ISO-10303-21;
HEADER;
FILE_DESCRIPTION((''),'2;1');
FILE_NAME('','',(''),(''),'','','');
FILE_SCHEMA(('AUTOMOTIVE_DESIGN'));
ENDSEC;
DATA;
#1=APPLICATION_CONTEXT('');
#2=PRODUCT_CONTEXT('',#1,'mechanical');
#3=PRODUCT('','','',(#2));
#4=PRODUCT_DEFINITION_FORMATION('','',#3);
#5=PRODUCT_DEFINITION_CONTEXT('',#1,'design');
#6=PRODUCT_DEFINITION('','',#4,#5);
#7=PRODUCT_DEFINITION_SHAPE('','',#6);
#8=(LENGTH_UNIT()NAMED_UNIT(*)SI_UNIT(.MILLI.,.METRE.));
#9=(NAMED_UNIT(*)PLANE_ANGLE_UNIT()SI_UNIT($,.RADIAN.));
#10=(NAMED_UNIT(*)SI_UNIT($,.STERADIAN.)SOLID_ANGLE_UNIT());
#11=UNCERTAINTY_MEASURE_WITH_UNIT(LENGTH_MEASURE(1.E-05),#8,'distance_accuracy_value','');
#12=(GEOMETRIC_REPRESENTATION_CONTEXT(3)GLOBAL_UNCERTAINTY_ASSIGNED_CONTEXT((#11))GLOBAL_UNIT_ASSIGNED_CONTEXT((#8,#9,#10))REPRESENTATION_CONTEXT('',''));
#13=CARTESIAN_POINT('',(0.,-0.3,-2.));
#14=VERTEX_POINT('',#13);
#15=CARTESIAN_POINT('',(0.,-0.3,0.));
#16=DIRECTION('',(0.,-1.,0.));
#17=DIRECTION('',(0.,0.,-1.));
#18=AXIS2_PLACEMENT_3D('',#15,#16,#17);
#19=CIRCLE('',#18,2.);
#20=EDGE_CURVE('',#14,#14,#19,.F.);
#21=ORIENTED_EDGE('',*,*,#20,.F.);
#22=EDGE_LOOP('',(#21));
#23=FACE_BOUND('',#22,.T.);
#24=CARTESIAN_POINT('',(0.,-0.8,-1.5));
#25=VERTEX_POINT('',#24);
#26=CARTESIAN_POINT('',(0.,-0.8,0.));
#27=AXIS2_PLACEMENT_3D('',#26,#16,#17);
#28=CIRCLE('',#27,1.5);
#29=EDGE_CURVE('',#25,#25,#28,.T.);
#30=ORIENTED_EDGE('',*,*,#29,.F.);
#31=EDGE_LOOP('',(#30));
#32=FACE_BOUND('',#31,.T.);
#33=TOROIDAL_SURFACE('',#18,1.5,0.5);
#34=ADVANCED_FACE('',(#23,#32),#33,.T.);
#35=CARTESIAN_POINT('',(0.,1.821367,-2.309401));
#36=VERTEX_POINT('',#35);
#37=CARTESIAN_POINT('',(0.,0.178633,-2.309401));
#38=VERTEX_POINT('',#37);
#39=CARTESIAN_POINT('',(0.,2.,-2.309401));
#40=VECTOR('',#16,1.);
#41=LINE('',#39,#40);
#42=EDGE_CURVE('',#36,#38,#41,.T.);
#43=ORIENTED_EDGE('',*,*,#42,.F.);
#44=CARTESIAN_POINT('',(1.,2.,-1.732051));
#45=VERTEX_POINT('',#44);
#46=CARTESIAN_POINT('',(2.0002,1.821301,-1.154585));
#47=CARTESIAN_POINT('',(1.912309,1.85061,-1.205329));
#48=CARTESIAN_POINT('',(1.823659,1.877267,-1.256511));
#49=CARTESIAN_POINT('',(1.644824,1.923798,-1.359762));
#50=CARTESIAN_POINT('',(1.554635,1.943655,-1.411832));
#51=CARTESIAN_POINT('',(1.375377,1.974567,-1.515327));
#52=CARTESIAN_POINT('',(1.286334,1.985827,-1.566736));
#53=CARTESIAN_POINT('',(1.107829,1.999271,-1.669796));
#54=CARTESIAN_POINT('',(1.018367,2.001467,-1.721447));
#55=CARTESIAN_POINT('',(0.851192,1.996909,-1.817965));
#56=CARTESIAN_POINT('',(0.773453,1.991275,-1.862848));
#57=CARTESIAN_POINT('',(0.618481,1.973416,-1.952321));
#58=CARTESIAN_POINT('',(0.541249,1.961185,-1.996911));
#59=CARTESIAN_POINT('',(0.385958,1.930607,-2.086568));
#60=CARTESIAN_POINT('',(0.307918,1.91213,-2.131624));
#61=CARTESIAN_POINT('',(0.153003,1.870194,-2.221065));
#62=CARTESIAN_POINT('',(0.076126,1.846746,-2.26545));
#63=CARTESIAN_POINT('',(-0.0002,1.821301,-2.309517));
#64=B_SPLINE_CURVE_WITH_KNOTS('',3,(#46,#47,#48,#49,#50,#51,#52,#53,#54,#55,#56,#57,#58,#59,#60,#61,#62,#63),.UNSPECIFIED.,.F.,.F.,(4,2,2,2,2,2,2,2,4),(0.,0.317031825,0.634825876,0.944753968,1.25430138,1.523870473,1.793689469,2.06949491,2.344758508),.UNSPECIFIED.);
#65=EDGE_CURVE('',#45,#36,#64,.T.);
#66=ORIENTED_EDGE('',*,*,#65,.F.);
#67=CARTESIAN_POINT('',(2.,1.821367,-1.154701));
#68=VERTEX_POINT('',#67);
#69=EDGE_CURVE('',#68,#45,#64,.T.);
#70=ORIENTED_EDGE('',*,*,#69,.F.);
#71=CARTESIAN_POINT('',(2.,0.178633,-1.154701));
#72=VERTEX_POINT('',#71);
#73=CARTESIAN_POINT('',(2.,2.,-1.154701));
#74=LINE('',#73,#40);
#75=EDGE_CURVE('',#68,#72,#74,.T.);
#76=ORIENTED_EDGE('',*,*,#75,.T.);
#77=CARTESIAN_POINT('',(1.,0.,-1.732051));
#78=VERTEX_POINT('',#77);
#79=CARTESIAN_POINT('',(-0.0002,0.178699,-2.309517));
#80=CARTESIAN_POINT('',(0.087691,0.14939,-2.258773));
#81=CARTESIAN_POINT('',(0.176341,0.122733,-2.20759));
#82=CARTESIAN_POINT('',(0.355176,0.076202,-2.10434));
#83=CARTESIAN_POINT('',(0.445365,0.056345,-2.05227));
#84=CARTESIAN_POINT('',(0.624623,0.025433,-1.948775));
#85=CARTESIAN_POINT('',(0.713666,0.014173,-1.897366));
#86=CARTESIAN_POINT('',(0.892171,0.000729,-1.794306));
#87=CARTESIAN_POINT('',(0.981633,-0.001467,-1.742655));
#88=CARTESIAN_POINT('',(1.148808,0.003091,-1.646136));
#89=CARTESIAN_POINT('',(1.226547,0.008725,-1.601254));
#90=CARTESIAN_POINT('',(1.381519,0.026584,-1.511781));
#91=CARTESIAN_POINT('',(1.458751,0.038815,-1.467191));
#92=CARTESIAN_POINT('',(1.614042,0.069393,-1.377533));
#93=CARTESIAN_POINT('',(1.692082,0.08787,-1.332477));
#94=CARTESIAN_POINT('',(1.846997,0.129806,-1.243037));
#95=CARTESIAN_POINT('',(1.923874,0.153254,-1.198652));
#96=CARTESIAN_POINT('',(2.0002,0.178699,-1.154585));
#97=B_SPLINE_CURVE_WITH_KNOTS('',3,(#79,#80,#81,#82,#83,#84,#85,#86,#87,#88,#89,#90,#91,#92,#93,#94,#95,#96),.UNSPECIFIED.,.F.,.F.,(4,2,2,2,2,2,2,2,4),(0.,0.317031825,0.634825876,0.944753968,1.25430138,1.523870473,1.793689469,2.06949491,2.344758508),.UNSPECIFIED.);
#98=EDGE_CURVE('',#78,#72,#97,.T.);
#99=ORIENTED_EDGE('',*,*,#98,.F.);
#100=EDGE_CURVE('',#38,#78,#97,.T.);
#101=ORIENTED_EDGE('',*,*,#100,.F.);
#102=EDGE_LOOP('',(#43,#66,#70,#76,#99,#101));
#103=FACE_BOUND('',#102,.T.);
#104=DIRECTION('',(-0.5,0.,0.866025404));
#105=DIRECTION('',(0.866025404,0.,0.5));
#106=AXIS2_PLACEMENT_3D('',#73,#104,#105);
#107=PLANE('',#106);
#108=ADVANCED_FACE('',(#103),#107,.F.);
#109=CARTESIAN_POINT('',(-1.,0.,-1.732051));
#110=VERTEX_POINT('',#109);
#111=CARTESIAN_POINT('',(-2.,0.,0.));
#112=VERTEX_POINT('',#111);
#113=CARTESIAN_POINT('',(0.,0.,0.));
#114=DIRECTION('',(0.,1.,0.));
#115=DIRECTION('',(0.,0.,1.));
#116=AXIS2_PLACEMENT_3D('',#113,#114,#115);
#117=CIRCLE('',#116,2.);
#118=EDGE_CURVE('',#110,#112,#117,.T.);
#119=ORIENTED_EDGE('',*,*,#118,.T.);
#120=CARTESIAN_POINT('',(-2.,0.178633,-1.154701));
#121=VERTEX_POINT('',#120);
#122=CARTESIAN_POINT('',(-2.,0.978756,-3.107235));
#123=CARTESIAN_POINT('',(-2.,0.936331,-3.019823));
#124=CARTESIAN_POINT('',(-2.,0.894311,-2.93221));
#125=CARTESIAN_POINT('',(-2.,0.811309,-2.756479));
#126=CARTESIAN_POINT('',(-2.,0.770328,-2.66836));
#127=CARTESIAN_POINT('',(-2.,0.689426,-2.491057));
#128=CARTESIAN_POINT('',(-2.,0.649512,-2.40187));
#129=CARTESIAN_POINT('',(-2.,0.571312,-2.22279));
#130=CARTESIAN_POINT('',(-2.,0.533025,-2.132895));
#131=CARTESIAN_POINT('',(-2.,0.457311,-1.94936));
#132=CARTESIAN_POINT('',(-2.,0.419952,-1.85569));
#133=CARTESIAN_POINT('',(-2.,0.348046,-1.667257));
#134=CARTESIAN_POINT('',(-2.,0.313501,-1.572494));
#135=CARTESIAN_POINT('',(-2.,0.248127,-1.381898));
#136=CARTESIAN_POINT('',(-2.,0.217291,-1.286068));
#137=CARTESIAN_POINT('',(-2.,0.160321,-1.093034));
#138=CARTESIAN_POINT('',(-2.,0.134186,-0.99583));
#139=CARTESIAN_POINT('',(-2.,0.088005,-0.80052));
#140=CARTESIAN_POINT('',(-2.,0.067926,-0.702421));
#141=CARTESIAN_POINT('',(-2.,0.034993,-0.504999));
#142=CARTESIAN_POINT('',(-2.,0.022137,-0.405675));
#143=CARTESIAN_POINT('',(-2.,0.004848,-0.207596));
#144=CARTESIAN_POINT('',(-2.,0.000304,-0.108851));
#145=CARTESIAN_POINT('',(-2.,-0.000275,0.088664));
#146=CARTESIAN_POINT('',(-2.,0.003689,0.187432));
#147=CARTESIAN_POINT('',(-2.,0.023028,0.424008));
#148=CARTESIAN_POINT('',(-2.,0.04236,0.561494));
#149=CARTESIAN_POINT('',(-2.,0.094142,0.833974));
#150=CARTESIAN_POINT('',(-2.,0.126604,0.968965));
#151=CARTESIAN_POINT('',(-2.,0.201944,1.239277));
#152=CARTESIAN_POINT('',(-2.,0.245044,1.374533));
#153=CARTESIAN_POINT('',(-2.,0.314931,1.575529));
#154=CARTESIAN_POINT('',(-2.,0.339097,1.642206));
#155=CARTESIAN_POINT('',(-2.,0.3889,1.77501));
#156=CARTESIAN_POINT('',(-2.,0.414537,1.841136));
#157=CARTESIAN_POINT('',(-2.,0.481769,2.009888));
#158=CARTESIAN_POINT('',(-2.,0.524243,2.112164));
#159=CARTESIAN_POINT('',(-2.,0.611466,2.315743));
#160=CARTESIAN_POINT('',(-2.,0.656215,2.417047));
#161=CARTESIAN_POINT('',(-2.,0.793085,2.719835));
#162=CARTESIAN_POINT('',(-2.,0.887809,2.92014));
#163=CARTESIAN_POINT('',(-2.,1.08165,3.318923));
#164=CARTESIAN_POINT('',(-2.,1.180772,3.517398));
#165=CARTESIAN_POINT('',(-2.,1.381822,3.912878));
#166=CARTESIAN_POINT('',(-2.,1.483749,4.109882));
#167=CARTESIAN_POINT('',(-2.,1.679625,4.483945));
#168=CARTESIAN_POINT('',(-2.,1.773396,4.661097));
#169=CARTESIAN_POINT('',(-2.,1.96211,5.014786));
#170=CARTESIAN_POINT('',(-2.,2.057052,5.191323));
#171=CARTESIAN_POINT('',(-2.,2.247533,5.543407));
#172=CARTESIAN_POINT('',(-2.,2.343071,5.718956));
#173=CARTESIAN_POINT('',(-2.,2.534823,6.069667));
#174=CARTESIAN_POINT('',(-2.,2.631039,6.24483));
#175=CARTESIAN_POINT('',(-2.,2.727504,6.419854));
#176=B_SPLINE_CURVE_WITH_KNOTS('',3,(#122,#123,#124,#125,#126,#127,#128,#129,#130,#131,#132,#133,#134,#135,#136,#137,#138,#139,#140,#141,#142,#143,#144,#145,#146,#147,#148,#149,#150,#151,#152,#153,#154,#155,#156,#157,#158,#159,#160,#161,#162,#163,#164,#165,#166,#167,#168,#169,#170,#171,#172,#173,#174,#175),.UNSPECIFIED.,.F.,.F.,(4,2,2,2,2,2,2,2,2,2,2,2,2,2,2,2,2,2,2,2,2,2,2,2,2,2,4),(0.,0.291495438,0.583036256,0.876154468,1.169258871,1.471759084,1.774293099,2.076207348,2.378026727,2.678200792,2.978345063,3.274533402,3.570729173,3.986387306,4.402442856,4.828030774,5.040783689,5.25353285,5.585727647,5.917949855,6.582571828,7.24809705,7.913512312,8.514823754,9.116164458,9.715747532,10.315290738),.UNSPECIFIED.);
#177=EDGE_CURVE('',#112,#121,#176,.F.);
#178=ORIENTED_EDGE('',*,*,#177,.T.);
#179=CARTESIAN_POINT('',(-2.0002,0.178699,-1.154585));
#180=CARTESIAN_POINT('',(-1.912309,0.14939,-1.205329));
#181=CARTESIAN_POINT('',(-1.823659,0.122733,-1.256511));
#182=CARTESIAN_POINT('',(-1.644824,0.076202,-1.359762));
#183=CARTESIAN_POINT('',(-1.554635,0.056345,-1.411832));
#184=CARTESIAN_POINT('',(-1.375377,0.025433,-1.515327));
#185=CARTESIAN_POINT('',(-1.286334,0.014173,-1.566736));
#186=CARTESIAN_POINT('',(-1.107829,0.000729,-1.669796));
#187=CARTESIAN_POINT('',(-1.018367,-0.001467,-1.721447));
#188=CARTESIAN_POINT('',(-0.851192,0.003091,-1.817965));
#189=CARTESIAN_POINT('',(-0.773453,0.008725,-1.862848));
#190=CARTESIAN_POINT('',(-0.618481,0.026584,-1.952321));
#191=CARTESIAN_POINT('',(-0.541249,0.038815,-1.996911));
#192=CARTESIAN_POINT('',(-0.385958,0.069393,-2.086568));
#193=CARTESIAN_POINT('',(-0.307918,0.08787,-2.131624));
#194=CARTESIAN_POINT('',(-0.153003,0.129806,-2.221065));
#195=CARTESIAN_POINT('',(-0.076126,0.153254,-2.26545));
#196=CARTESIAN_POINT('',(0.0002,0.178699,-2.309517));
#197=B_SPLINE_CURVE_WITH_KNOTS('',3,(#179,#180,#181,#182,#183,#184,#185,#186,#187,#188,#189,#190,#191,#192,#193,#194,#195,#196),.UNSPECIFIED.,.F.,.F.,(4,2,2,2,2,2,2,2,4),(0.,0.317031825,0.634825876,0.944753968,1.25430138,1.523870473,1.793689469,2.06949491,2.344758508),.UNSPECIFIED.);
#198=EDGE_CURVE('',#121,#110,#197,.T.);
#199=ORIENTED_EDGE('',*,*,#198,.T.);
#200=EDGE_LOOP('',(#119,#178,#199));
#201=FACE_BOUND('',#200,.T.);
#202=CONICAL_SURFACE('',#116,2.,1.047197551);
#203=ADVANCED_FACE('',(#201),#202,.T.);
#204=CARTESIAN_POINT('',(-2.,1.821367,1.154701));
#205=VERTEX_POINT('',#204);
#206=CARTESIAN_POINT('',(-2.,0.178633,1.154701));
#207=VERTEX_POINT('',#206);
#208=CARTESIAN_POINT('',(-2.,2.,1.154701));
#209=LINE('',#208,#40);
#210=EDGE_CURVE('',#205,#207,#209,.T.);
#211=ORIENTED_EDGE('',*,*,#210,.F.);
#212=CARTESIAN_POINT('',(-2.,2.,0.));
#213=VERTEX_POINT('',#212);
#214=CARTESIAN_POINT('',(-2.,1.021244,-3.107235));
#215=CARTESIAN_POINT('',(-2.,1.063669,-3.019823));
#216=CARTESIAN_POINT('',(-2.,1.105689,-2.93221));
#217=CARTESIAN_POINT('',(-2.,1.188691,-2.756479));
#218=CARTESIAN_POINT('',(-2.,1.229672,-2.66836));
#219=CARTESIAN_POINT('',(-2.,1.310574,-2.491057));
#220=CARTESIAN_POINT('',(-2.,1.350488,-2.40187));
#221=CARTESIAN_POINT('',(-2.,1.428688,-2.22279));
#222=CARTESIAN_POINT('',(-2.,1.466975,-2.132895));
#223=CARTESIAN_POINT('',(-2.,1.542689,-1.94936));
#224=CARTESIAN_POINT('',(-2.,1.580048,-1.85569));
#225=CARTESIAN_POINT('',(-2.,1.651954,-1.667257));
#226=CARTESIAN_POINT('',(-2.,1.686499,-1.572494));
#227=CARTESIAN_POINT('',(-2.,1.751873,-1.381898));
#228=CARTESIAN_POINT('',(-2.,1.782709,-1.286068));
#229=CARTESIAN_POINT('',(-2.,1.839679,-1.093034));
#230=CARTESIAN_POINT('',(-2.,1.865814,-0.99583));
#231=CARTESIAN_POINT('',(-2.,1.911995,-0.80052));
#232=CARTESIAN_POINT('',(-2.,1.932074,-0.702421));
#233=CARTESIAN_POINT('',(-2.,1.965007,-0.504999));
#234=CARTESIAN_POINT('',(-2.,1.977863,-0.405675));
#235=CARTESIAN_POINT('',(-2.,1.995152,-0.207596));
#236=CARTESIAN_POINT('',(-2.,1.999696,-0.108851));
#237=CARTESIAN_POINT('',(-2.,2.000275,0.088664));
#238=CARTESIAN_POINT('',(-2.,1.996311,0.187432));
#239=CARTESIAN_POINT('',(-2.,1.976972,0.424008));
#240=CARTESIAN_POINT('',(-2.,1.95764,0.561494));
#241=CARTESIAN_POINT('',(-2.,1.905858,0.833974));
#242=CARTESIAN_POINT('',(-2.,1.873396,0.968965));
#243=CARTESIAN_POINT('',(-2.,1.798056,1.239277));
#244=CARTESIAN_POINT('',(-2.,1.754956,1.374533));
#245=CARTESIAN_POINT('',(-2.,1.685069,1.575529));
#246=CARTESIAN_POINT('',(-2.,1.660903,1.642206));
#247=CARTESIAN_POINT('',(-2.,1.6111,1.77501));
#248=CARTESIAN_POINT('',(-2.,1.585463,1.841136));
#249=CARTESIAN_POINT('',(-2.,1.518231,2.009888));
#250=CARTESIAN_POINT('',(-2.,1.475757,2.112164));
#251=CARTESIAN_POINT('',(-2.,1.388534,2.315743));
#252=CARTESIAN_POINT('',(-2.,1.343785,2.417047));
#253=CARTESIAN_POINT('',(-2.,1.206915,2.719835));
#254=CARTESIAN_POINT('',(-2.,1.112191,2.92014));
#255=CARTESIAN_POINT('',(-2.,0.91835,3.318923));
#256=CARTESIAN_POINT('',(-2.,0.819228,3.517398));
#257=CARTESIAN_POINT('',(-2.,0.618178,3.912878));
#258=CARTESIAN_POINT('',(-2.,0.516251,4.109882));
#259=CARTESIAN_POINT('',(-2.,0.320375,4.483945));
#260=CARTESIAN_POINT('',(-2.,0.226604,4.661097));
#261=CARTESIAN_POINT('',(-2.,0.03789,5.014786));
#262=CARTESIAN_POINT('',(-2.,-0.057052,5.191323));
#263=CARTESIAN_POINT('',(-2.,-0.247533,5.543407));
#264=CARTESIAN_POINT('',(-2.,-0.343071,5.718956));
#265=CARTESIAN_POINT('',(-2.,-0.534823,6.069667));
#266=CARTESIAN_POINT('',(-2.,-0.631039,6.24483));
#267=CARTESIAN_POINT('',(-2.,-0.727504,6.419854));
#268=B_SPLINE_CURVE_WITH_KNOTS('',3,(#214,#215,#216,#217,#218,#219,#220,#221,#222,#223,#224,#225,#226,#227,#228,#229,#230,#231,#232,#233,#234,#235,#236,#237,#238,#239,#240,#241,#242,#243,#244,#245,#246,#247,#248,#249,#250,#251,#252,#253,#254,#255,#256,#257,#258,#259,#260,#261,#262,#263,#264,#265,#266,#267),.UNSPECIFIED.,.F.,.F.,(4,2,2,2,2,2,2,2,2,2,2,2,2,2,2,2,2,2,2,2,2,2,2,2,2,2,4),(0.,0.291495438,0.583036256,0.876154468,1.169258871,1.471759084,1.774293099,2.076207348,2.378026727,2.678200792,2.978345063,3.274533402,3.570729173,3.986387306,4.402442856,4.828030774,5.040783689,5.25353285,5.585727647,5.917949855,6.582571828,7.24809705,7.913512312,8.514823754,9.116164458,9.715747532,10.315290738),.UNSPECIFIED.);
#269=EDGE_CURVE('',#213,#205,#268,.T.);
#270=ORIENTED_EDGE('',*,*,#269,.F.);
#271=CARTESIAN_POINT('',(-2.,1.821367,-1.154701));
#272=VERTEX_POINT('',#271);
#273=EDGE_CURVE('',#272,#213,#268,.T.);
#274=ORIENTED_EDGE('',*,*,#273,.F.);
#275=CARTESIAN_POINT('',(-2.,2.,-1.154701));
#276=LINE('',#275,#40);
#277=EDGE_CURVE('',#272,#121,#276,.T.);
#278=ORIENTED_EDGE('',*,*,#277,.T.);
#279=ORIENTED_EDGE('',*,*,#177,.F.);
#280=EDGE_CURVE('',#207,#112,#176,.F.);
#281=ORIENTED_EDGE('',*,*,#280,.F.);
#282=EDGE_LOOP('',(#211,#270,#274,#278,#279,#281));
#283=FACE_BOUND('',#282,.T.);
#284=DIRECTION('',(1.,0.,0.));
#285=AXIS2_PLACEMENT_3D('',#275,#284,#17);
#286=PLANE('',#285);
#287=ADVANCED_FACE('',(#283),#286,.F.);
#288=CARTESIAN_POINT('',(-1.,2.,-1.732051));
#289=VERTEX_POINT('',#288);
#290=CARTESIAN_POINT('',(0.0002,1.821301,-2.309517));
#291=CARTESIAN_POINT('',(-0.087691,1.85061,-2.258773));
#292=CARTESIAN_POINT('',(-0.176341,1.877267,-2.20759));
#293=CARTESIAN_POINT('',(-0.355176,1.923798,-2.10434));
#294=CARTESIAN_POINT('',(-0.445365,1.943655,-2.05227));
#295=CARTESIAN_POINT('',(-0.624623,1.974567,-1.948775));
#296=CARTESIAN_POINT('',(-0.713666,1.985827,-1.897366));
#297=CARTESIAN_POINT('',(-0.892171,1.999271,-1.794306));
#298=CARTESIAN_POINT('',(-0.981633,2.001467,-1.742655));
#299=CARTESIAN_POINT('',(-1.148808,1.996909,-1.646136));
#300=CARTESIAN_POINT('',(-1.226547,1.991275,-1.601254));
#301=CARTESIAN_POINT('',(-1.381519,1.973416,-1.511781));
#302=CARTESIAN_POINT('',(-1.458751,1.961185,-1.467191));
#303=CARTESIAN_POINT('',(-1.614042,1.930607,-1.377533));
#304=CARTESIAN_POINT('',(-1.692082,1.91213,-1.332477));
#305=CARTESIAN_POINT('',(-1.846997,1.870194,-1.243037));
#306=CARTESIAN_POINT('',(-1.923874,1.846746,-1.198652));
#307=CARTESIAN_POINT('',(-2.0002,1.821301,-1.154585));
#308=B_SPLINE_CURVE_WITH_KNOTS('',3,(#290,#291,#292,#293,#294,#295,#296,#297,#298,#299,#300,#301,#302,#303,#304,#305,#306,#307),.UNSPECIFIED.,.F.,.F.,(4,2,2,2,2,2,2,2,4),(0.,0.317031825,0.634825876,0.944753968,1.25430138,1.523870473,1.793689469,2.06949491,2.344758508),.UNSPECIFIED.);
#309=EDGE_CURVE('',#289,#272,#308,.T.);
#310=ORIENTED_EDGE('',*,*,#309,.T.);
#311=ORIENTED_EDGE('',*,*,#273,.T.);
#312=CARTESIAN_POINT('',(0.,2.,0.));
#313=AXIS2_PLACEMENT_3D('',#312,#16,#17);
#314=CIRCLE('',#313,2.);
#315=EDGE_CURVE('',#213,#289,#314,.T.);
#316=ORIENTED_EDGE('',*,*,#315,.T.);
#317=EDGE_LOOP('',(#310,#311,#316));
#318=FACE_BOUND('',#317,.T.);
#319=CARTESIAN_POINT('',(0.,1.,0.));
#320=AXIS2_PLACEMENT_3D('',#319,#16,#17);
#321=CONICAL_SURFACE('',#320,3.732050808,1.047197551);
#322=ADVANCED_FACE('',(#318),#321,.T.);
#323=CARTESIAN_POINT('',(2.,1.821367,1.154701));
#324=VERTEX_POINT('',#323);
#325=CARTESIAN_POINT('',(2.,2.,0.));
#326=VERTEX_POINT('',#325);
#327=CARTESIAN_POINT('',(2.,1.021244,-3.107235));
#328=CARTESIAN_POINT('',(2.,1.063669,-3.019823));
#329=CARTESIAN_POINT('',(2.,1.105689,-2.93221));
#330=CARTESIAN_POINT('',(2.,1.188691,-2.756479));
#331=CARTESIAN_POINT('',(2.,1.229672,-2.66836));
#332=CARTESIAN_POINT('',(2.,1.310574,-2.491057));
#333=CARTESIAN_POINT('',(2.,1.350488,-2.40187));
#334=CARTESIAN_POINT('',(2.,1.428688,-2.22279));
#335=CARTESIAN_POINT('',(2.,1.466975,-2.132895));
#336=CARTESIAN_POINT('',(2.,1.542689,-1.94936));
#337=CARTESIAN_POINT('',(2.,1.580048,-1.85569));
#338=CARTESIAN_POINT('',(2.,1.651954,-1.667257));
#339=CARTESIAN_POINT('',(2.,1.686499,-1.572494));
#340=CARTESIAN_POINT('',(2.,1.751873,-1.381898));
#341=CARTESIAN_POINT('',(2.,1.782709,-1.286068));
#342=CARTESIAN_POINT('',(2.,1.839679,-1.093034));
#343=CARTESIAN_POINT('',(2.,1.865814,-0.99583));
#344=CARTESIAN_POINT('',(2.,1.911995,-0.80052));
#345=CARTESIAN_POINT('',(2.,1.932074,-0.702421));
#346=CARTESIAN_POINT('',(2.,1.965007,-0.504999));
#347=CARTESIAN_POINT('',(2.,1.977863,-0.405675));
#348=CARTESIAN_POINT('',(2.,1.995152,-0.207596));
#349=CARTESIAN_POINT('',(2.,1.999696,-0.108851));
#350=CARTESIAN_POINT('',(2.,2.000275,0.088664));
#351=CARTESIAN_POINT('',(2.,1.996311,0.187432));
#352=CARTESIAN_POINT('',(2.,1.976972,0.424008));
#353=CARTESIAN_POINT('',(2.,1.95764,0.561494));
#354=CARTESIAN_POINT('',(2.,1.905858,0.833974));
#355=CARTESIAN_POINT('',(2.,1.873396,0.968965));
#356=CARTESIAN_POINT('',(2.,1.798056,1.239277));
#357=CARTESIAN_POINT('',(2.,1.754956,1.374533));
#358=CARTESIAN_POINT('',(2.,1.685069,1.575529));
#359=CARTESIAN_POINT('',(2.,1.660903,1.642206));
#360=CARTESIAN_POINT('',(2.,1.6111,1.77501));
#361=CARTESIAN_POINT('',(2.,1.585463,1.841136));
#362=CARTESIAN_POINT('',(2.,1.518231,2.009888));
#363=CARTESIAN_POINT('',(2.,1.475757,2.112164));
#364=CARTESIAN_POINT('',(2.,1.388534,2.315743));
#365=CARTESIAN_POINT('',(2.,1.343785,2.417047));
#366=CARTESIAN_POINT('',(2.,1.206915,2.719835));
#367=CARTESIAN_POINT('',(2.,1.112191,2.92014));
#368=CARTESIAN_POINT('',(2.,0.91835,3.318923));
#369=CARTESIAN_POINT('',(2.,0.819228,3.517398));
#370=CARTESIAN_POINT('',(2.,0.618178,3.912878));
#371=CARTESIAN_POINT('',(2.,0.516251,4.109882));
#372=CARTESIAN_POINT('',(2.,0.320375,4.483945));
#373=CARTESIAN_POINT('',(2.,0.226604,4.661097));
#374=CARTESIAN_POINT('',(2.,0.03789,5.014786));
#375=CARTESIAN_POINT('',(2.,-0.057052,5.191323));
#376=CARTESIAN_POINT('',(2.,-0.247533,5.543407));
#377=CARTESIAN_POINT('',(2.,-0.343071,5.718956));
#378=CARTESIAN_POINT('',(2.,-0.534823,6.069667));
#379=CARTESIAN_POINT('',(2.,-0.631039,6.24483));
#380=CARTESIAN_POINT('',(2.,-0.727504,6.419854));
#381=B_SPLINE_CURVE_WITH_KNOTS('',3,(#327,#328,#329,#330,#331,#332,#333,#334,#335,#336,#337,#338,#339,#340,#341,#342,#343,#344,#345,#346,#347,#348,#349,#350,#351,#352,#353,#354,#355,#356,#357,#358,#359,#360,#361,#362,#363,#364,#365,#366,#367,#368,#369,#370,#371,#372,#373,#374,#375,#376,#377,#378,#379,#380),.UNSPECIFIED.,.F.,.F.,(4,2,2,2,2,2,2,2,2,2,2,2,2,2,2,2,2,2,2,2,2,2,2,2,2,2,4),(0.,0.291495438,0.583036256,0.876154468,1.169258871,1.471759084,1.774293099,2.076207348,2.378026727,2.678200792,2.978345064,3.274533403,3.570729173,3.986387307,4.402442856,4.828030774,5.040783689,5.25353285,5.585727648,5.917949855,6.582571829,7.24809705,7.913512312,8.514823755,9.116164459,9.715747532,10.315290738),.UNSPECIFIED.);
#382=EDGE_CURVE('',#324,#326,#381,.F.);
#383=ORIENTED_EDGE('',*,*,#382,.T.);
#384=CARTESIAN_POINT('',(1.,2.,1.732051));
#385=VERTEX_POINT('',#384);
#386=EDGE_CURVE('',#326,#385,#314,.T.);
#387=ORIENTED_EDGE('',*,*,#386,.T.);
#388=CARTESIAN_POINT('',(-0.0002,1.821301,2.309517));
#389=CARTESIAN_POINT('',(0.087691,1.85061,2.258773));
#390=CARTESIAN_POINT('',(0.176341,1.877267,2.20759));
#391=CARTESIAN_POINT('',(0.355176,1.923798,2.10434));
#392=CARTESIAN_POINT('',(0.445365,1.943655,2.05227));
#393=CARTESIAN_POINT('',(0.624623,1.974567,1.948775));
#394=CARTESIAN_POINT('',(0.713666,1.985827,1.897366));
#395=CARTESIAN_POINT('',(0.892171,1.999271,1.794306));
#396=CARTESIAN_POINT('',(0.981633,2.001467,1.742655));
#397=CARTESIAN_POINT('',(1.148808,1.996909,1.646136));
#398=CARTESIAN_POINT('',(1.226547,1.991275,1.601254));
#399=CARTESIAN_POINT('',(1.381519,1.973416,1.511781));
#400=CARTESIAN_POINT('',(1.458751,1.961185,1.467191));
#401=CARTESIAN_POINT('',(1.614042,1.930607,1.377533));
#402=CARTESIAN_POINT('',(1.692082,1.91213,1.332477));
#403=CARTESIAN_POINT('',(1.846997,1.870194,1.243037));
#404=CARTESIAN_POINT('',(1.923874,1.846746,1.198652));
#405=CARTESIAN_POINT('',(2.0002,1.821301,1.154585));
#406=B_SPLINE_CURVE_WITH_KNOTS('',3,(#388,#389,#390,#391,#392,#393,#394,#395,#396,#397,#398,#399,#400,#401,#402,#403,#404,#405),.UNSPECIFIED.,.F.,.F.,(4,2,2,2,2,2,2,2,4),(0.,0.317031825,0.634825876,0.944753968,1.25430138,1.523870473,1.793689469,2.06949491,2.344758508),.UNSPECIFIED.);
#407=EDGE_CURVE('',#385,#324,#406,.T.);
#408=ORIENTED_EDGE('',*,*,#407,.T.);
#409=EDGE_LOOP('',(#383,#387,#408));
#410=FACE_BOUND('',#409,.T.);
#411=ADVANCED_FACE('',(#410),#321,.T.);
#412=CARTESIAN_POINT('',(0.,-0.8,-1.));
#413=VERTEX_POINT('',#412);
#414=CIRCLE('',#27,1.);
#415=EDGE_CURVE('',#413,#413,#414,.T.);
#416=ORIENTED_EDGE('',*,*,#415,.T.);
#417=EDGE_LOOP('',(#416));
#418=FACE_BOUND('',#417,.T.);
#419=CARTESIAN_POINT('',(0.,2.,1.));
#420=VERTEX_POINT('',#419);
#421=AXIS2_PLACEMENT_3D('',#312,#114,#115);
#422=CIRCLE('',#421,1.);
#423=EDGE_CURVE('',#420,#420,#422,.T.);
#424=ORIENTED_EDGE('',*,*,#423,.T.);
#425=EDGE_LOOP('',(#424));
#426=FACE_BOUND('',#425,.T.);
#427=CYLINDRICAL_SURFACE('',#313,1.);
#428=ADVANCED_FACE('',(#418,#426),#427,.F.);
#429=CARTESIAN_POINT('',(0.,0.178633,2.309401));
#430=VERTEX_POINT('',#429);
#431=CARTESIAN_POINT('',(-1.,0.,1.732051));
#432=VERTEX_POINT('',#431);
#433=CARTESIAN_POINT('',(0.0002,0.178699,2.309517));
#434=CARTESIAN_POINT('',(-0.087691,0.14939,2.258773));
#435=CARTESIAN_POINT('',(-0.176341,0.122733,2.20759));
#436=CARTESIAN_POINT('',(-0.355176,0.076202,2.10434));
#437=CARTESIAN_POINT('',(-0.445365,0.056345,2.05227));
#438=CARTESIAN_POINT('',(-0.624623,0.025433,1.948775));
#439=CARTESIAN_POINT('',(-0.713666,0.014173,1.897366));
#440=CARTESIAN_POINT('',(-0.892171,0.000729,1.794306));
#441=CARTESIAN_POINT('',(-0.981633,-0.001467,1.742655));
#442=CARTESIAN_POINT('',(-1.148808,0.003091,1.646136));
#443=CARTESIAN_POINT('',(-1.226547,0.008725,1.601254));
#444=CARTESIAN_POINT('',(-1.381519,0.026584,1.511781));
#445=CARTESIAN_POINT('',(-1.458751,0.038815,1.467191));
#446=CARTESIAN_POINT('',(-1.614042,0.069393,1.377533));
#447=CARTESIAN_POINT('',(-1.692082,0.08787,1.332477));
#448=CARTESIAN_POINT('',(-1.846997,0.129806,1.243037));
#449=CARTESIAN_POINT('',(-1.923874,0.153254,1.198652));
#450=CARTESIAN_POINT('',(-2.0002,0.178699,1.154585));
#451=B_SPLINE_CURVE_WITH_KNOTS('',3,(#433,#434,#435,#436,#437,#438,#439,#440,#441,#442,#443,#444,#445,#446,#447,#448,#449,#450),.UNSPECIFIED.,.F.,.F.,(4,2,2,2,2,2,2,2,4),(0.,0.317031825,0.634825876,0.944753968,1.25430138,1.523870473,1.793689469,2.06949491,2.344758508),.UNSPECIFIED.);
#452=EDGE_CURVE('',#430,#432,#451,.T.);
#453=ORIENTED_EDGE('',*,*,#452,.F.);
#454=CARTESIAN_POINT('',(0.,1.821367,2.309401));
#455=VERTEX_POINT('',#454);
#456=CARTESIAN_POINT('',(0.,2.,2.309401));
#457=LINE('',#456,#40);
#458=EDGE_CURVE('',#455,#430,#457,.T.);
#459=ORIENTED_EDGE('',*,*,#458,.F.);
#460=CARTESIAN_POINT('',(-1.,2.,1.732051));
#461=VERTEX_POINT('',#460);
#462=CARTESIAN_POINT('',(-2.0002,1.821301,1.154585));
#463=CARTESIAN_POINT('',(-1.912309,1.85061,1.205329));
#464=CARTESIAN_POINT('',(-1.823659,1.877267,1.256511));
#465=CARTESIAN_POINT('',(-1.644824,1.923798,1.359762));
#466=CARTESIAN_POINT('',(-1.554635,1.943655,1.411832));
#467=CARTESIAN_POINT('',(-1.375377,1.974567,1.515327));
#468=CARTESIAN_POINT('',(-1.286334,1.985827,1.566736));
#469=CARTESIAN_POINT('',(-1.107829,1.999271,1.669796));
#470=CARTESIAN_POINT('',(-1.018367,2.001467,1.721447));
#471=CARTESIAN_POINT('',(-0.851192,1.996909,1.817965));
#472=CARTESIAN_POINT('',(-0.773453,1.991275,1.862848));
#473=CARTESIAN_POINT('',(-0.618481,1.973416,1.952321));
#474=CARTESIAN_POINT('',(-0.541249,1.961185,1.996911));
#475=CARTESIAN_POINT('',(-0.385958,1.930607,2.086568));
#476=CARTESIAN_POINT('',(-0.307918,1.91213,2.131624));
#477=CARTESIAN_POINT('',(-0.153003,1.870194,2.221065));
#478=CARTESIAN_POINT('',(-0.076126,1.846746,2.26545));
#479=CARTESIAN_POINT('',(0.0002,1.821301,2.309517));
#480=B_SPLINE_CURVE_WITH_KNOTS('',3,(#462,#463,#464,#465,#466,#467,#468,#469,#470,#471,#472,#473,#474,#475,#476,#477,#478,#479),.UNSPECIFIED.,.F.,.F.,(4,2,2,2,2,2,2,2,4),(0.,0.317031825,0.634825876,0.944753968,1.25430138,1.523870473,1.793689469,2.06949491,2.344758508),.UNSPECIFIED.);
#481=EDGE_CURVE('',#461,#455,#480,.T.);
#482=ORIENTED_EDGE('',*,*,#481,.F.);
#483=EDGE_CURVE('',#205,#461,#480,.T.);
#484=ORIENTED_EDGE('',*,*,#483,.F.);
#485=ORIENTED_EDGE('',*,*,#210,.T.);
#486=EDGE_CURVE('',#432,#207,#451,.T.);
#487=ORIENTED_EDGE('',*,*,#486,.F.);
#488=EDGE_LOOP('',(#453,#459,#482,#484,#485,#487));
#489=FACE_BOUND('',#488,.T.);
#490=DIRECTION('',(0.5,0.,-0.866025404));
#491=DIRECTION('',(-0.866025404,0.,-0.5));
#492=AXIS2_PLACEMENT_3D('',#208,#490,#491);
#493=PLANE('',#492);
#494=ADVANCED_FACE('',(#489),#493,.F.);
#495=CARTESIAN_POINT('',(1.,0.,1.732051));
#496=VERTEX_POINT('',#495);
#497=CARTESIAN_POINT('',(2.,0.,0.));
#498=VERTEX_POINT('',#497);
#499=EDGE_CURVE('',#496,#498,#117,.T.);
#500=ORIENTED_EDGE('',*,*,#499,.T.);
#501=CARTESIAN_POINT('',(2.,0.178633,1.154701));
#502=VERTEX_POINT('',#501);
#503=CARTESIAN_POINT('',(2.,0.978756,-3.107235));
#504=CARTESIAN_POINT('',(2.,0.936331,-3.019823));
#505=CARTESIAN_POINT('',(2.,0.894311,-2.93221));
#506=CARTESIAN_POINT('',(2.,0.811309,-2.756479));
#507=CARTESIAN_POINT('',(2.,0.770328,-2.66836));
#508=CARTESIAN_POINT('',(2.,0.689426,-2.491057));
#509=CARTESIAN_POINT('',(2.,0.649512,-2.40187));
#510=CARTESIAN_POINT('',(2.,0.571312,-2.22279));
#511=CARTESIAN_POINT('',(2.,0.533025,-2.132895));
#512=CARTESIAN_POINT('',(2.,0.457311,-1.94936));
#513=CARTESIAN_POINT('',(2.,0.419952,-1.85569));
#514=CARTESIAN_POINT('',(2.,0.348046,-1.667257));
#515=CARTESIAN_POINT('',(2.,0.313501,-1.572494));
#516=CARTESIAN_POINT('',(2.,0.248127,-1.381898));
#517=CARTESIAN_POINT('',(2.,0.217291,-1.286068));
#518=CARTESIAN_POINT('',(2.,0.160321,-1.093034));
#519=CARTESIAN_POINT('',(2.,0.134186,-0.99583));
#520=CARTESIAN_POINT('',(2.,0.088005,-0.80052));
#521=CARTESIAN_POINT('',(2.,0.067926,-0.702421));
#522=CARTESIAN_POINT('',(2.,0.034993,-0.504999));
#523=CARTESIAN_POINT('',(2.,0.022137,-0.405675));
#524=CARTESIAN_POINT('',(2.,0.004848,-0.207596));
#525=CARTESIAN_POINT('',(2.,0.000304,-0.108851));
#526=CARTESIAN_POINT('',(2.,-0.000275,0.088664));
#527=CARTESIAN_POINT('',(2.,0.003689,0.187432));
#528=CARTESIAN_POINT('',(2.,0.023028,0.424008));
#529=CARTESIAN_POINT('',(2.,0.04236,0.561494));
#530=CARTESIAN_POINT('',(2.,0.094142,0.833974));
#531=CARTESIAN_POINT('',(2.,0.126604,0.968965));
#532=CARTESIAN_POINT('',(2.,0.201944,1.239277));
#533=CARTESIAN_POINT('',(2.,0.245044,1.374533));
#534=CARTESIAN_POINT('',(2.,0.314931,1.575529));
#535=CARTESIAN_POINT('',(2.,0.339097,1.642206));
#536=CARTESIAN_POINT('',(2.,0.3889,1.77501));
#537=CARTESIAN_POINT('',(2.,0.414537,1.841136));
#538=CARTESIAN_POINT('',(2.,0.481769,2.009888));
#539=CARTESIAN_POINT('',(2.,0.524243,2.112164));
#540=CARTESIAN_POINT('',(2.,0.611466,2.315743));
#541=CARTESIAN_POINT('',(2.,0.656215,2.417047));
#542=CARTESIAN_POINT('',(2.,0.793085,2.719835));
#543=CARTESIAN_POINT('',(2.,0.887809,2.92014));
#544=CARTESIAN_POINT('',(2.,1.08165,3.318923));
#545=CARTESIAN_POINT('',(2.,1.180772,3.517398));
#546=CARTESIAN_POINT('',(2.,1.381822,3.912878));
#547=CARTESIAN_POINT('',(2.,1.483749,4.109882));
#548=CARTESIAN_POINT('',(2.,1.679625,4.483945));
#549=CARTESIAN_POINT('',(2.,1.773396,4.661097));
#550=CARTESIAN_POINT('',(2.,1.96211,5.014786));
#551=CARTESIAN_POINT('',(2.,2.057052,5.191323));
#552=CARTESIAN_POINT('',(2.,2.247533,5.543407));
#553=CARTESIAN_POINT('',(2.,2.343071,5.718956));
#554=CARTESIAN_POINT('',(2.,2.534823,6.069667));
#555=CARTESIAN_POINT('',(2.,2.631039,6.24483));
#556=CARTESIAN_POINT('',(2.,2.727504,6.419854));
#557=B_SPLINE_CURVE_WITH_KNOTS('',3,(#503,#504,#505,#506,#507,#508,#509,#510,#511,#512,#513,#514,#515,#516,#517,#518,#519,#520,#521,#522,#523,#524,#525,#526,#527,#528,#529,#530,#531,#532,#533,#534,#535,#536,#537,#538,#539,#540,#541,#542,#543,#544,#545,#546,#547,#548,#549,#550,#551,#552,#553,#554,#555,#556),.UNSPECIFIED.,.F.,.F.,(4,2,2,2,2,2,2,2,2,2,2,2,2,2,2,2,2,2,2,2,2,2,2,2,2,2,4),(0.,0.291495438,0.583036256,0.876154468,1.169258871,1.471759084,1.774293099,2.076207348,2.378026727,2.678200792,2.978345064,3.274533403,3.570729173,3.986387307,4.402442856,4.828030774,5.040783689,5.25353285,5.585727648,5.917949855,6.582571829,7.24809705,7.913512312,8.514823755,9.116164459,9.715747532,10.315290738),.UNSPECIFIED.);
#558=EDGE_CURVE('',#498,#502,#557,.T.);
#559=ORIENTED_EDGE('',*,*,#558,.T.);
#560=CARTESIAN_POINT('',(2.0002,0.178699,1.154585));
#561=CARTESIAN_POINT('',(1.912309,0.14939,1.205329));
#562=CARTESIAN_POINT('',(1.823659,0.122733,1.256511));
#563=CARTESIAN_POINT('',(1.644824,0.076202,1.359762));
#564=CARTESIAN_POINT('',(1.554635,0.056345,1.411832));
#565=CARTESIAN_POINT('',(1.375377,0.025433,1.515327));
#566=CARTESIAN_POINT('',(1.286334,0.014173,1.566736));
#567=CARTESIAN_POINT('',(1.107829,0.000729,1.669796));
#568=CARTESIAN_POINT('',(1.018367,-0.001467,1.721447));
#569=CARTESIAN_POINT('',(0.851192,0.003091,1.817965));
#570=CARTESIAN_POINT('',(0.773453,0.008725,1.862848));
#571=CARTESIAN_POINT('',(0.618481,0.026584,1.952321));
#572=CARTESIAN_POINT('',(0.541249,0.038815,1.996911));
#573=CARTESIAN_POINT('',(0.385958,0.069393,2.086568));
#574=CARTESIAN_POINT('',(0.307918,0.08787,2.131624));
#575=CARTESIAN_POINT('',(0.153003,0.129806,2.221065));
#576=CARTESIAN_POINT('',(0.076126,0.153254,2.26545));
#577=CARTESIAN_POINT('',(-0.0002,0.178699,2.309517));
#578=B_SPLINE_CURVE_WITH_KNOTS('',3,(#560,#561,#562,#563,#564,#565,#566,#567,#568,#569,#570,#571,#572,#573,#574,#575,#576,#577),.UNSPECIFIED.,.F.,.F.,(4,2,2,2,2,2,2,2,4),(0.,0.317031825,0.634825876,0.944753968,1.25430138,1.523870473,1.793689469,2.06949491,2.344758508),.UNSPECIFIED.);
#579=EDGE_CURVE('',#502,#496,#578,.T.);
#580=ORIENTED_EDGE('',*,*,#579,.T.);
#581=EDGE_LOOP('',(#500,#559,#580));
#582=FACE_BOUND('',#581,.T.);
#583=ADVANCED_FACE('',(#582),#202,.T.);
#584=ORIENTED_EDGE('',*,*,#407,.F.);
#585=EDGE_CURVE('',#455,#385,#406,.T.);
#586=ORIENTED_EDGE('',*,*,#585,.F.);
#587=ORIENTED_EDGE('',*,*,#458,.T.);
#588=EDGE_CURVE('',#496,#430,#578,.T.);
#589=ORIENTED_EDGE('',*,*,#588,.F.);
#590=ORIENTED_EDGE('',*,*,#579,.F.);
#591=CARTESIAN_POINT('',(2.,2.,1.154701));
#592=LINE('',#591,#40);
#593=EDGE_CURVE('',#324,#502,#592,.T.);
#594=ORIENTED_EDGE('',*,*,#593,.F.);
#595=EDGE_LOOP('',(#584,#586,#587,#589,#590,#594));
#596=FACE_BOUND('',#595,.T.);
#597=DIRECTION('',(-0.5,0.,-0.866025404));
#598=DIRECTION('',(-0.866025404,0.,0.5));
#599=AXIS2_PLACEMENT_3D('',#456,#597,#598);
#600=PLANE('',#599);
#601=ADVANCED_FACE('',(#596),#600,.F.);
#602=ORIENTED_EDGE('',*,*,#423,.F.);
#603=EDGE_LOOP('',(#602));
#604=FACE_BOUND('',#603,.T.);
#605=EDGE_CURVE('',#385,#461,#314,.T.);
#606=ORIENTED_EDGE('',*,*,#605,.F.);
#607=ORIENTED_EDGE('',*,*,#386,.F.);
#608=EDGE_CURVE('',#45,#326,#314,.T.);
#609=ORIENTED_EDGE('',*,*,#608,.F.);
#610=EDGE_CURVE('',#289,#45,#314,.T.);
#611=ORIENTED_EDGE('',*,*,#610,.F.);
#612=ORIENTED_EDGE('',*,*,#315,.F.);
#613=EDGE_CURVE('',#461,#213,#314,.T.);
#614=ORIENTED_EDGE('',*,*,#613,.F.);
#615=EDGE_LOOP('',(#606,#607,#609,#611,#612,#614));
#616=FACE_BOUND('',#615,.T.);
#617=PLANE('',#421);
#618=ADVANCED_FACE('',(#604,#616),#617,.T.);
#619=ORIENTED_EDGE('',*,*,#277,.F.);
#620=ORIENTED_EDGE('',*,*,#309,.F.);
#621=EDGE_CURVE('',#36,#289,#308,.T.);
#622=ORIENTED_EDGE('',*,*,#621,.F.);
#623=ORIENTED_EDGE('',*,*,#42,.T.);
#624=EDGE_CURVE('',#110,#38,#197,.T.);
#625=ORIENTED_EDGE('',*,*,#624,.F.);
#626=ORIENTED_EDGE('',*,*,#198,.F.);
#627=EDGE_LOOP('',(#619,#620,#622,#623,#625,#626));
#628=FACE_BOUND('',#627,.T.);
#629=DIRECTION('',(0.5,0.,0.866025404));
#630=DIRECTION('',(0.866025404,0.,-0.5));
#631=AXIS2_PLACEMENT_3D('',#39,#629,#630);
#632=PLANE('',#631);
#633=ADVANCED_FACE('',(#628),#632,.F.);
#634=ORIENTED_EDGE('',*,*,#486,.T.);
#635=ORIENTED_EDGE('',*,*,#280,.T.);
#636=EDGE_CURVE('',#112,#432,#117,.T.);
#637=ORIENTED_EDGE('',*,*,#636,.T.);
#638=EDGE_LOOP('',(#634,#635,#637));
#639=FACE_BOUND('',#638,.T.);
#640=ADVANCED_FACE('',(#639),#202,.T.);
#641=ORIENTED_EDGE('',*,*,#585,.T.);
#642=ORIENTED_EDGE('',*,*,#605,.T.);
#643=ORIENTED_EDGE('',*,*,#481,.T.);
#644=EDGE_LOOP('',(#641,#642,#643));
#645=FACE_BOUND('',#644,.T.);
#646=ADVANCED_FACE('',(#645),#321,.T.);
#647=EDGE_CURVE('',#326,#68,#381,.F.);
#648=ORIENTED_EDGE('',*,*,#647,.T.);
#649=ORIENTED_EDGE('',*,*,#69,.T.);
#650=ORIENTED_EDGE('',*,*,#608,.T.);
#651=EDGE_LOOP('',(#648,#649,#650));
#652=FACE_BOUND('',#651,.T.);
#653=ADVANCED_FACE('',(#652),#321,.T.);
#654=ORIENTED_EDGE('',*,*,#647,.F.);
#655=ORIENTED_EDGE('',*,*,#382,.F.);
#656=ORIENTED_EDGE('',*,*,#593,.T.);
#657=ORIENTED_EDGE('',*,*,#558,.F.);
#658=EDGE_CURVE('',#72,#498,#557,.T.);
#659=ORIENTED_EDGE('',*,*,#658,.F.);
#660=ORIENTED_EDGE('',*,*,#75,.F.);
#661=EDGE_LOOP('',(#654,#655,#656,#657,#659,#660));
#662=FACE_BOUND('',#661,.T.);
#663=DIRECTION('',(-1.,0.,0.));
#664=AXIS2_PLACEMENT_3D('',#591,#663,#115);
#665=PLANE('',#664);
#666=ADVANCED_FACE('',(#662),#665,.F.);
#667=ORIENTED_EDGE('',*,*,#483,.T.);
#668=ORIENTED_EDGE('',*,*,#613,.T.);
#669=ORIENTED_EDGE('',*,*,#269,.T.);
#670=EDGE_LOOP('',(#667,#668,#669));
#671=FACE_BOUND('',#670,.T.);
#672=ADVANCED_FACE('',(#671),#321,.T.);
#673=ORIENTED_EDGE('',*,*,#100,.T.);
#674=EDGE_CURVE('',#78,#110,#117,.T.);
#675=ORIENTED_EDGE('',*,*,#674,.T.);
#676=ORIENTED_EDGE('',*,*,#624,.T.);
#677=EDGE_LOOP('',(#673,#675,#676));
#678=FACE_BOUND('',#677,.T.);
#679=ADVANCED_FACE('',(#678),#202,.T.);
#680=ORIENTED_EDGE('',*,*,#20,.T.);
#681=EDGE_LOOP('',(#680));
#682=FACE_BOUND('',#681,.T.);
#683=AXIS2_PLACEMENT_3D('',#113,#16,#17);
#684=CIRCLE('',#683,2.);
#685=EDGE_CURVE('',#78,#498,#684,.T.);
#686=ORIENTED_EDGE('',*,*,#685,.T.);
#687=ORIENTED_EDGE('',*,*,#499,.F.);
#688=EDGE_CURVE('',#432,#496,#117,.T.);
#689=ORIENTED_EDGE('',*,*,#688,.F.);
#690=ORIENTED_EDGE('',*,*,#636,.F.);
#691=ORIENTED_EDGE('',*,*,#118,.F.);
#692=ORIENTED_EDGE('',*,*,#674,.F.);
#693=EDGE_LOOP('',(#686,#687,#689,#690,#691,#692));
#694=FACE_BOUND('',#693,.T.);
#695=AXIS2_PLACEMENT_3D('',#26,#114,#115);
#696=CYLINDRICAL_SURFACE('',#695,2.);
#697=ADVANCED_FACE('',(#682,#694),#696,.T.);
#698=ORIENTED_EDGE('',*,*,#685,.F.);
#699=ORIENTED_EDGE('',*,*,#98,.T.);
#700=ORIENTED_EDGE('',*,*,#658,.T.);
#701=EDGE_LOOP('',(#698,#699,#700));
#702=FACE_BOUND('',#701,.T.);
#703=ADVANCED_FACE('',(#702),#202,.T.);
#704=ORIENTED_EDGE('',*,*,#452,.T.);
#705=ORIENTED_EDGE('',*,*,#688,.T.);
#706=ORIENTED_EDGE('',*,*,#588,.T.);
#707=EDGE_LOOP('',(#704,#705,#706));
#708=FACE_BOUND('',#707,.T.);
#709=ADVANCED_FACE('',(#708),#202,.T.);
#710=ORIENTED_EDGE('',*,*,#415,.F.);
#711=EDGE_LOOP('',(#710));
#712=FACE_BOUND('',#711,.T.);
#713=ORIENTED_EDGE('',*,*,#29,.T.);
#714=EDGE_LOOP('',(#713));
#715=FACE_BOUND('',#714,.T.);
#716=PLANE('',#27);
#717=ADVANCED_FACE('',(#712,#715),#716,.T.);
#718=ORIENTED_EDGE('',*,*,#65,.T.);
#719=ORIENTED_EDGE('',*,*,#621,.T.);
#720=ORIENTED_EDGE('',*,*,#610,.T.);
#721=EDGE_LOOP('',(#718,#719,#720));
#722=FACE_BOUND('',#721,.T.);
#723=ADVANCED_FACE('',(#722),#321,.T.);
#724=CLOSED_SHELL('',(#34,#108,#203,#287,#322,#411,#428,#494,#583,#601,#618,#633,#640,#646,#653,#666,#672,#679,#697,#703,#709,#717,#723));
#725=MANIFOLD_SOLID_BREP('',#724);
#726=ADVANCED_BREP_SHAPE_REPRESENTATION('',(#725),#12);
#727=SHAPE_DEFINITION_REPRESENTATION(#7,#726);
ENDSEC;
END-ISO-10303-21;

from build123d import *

# Parameters (mm, degrees)
SKETCH_1_R      = 1
EXTRUDE_2_DEPTH = 2
SKETCH_3_R      = 2
SKETCH_3_R_2    = 1
EXTRUDE_3_DEPTH = 0.8
FILLET_1_R      = 0.5


with BuildPart() as part:
    # 草图1 → 凸台-拉伸2 (new body)
    with BuildSketch(Plane(origin=(0, 0, 0), x_dir=(1, 0, 0), z_dir=(0, 1, 0))):
        Polygon((2, 1.154700538), (0, 2.309401077), (-2, 1.154700538), (-2, -1.154700538), (0, -2.309401077), (2, -1.154700538), align=None)
        Circle(SKETCH_1_R, mode=Mode.SUBTRACT)
    extrude(amount=EXTRUDE_2_DEPTH)

    # 草图2 → 切除-旋转1 (revolve, cut)
    with BuildSketch(Plane.XY):
        Polygon((3.732050808, 1), (2, 2), (3.732050808, 2), align=None)
        Polygon((2, 0), (3.732050808, 1), (3.732050808, 0), align=None)
    revolve(axis=Axis((0, 1.981363764, 0), (0, 1, 0)), mode=Mode.SUBTRACT)

    # 草图3 → 凸台-拉伸3 (add)
    with BuildSketch(Plane.XZ):
        Circle(SKETCH_3_R)
        Circle(SKETCH_3_R_2, mode=Mode.SUBTRACT)
    extrude(amount=EXTRUDE_3_DEPTH)

    # 圆角1
    fillet_1_edges = [part.edges().sort_by_distance(p)[0] for p in [
        (-2, -0.8, 0),
    ]]
    fillet(fillet_1_edges, radius=FILLET_1_R)


solid = part.part
